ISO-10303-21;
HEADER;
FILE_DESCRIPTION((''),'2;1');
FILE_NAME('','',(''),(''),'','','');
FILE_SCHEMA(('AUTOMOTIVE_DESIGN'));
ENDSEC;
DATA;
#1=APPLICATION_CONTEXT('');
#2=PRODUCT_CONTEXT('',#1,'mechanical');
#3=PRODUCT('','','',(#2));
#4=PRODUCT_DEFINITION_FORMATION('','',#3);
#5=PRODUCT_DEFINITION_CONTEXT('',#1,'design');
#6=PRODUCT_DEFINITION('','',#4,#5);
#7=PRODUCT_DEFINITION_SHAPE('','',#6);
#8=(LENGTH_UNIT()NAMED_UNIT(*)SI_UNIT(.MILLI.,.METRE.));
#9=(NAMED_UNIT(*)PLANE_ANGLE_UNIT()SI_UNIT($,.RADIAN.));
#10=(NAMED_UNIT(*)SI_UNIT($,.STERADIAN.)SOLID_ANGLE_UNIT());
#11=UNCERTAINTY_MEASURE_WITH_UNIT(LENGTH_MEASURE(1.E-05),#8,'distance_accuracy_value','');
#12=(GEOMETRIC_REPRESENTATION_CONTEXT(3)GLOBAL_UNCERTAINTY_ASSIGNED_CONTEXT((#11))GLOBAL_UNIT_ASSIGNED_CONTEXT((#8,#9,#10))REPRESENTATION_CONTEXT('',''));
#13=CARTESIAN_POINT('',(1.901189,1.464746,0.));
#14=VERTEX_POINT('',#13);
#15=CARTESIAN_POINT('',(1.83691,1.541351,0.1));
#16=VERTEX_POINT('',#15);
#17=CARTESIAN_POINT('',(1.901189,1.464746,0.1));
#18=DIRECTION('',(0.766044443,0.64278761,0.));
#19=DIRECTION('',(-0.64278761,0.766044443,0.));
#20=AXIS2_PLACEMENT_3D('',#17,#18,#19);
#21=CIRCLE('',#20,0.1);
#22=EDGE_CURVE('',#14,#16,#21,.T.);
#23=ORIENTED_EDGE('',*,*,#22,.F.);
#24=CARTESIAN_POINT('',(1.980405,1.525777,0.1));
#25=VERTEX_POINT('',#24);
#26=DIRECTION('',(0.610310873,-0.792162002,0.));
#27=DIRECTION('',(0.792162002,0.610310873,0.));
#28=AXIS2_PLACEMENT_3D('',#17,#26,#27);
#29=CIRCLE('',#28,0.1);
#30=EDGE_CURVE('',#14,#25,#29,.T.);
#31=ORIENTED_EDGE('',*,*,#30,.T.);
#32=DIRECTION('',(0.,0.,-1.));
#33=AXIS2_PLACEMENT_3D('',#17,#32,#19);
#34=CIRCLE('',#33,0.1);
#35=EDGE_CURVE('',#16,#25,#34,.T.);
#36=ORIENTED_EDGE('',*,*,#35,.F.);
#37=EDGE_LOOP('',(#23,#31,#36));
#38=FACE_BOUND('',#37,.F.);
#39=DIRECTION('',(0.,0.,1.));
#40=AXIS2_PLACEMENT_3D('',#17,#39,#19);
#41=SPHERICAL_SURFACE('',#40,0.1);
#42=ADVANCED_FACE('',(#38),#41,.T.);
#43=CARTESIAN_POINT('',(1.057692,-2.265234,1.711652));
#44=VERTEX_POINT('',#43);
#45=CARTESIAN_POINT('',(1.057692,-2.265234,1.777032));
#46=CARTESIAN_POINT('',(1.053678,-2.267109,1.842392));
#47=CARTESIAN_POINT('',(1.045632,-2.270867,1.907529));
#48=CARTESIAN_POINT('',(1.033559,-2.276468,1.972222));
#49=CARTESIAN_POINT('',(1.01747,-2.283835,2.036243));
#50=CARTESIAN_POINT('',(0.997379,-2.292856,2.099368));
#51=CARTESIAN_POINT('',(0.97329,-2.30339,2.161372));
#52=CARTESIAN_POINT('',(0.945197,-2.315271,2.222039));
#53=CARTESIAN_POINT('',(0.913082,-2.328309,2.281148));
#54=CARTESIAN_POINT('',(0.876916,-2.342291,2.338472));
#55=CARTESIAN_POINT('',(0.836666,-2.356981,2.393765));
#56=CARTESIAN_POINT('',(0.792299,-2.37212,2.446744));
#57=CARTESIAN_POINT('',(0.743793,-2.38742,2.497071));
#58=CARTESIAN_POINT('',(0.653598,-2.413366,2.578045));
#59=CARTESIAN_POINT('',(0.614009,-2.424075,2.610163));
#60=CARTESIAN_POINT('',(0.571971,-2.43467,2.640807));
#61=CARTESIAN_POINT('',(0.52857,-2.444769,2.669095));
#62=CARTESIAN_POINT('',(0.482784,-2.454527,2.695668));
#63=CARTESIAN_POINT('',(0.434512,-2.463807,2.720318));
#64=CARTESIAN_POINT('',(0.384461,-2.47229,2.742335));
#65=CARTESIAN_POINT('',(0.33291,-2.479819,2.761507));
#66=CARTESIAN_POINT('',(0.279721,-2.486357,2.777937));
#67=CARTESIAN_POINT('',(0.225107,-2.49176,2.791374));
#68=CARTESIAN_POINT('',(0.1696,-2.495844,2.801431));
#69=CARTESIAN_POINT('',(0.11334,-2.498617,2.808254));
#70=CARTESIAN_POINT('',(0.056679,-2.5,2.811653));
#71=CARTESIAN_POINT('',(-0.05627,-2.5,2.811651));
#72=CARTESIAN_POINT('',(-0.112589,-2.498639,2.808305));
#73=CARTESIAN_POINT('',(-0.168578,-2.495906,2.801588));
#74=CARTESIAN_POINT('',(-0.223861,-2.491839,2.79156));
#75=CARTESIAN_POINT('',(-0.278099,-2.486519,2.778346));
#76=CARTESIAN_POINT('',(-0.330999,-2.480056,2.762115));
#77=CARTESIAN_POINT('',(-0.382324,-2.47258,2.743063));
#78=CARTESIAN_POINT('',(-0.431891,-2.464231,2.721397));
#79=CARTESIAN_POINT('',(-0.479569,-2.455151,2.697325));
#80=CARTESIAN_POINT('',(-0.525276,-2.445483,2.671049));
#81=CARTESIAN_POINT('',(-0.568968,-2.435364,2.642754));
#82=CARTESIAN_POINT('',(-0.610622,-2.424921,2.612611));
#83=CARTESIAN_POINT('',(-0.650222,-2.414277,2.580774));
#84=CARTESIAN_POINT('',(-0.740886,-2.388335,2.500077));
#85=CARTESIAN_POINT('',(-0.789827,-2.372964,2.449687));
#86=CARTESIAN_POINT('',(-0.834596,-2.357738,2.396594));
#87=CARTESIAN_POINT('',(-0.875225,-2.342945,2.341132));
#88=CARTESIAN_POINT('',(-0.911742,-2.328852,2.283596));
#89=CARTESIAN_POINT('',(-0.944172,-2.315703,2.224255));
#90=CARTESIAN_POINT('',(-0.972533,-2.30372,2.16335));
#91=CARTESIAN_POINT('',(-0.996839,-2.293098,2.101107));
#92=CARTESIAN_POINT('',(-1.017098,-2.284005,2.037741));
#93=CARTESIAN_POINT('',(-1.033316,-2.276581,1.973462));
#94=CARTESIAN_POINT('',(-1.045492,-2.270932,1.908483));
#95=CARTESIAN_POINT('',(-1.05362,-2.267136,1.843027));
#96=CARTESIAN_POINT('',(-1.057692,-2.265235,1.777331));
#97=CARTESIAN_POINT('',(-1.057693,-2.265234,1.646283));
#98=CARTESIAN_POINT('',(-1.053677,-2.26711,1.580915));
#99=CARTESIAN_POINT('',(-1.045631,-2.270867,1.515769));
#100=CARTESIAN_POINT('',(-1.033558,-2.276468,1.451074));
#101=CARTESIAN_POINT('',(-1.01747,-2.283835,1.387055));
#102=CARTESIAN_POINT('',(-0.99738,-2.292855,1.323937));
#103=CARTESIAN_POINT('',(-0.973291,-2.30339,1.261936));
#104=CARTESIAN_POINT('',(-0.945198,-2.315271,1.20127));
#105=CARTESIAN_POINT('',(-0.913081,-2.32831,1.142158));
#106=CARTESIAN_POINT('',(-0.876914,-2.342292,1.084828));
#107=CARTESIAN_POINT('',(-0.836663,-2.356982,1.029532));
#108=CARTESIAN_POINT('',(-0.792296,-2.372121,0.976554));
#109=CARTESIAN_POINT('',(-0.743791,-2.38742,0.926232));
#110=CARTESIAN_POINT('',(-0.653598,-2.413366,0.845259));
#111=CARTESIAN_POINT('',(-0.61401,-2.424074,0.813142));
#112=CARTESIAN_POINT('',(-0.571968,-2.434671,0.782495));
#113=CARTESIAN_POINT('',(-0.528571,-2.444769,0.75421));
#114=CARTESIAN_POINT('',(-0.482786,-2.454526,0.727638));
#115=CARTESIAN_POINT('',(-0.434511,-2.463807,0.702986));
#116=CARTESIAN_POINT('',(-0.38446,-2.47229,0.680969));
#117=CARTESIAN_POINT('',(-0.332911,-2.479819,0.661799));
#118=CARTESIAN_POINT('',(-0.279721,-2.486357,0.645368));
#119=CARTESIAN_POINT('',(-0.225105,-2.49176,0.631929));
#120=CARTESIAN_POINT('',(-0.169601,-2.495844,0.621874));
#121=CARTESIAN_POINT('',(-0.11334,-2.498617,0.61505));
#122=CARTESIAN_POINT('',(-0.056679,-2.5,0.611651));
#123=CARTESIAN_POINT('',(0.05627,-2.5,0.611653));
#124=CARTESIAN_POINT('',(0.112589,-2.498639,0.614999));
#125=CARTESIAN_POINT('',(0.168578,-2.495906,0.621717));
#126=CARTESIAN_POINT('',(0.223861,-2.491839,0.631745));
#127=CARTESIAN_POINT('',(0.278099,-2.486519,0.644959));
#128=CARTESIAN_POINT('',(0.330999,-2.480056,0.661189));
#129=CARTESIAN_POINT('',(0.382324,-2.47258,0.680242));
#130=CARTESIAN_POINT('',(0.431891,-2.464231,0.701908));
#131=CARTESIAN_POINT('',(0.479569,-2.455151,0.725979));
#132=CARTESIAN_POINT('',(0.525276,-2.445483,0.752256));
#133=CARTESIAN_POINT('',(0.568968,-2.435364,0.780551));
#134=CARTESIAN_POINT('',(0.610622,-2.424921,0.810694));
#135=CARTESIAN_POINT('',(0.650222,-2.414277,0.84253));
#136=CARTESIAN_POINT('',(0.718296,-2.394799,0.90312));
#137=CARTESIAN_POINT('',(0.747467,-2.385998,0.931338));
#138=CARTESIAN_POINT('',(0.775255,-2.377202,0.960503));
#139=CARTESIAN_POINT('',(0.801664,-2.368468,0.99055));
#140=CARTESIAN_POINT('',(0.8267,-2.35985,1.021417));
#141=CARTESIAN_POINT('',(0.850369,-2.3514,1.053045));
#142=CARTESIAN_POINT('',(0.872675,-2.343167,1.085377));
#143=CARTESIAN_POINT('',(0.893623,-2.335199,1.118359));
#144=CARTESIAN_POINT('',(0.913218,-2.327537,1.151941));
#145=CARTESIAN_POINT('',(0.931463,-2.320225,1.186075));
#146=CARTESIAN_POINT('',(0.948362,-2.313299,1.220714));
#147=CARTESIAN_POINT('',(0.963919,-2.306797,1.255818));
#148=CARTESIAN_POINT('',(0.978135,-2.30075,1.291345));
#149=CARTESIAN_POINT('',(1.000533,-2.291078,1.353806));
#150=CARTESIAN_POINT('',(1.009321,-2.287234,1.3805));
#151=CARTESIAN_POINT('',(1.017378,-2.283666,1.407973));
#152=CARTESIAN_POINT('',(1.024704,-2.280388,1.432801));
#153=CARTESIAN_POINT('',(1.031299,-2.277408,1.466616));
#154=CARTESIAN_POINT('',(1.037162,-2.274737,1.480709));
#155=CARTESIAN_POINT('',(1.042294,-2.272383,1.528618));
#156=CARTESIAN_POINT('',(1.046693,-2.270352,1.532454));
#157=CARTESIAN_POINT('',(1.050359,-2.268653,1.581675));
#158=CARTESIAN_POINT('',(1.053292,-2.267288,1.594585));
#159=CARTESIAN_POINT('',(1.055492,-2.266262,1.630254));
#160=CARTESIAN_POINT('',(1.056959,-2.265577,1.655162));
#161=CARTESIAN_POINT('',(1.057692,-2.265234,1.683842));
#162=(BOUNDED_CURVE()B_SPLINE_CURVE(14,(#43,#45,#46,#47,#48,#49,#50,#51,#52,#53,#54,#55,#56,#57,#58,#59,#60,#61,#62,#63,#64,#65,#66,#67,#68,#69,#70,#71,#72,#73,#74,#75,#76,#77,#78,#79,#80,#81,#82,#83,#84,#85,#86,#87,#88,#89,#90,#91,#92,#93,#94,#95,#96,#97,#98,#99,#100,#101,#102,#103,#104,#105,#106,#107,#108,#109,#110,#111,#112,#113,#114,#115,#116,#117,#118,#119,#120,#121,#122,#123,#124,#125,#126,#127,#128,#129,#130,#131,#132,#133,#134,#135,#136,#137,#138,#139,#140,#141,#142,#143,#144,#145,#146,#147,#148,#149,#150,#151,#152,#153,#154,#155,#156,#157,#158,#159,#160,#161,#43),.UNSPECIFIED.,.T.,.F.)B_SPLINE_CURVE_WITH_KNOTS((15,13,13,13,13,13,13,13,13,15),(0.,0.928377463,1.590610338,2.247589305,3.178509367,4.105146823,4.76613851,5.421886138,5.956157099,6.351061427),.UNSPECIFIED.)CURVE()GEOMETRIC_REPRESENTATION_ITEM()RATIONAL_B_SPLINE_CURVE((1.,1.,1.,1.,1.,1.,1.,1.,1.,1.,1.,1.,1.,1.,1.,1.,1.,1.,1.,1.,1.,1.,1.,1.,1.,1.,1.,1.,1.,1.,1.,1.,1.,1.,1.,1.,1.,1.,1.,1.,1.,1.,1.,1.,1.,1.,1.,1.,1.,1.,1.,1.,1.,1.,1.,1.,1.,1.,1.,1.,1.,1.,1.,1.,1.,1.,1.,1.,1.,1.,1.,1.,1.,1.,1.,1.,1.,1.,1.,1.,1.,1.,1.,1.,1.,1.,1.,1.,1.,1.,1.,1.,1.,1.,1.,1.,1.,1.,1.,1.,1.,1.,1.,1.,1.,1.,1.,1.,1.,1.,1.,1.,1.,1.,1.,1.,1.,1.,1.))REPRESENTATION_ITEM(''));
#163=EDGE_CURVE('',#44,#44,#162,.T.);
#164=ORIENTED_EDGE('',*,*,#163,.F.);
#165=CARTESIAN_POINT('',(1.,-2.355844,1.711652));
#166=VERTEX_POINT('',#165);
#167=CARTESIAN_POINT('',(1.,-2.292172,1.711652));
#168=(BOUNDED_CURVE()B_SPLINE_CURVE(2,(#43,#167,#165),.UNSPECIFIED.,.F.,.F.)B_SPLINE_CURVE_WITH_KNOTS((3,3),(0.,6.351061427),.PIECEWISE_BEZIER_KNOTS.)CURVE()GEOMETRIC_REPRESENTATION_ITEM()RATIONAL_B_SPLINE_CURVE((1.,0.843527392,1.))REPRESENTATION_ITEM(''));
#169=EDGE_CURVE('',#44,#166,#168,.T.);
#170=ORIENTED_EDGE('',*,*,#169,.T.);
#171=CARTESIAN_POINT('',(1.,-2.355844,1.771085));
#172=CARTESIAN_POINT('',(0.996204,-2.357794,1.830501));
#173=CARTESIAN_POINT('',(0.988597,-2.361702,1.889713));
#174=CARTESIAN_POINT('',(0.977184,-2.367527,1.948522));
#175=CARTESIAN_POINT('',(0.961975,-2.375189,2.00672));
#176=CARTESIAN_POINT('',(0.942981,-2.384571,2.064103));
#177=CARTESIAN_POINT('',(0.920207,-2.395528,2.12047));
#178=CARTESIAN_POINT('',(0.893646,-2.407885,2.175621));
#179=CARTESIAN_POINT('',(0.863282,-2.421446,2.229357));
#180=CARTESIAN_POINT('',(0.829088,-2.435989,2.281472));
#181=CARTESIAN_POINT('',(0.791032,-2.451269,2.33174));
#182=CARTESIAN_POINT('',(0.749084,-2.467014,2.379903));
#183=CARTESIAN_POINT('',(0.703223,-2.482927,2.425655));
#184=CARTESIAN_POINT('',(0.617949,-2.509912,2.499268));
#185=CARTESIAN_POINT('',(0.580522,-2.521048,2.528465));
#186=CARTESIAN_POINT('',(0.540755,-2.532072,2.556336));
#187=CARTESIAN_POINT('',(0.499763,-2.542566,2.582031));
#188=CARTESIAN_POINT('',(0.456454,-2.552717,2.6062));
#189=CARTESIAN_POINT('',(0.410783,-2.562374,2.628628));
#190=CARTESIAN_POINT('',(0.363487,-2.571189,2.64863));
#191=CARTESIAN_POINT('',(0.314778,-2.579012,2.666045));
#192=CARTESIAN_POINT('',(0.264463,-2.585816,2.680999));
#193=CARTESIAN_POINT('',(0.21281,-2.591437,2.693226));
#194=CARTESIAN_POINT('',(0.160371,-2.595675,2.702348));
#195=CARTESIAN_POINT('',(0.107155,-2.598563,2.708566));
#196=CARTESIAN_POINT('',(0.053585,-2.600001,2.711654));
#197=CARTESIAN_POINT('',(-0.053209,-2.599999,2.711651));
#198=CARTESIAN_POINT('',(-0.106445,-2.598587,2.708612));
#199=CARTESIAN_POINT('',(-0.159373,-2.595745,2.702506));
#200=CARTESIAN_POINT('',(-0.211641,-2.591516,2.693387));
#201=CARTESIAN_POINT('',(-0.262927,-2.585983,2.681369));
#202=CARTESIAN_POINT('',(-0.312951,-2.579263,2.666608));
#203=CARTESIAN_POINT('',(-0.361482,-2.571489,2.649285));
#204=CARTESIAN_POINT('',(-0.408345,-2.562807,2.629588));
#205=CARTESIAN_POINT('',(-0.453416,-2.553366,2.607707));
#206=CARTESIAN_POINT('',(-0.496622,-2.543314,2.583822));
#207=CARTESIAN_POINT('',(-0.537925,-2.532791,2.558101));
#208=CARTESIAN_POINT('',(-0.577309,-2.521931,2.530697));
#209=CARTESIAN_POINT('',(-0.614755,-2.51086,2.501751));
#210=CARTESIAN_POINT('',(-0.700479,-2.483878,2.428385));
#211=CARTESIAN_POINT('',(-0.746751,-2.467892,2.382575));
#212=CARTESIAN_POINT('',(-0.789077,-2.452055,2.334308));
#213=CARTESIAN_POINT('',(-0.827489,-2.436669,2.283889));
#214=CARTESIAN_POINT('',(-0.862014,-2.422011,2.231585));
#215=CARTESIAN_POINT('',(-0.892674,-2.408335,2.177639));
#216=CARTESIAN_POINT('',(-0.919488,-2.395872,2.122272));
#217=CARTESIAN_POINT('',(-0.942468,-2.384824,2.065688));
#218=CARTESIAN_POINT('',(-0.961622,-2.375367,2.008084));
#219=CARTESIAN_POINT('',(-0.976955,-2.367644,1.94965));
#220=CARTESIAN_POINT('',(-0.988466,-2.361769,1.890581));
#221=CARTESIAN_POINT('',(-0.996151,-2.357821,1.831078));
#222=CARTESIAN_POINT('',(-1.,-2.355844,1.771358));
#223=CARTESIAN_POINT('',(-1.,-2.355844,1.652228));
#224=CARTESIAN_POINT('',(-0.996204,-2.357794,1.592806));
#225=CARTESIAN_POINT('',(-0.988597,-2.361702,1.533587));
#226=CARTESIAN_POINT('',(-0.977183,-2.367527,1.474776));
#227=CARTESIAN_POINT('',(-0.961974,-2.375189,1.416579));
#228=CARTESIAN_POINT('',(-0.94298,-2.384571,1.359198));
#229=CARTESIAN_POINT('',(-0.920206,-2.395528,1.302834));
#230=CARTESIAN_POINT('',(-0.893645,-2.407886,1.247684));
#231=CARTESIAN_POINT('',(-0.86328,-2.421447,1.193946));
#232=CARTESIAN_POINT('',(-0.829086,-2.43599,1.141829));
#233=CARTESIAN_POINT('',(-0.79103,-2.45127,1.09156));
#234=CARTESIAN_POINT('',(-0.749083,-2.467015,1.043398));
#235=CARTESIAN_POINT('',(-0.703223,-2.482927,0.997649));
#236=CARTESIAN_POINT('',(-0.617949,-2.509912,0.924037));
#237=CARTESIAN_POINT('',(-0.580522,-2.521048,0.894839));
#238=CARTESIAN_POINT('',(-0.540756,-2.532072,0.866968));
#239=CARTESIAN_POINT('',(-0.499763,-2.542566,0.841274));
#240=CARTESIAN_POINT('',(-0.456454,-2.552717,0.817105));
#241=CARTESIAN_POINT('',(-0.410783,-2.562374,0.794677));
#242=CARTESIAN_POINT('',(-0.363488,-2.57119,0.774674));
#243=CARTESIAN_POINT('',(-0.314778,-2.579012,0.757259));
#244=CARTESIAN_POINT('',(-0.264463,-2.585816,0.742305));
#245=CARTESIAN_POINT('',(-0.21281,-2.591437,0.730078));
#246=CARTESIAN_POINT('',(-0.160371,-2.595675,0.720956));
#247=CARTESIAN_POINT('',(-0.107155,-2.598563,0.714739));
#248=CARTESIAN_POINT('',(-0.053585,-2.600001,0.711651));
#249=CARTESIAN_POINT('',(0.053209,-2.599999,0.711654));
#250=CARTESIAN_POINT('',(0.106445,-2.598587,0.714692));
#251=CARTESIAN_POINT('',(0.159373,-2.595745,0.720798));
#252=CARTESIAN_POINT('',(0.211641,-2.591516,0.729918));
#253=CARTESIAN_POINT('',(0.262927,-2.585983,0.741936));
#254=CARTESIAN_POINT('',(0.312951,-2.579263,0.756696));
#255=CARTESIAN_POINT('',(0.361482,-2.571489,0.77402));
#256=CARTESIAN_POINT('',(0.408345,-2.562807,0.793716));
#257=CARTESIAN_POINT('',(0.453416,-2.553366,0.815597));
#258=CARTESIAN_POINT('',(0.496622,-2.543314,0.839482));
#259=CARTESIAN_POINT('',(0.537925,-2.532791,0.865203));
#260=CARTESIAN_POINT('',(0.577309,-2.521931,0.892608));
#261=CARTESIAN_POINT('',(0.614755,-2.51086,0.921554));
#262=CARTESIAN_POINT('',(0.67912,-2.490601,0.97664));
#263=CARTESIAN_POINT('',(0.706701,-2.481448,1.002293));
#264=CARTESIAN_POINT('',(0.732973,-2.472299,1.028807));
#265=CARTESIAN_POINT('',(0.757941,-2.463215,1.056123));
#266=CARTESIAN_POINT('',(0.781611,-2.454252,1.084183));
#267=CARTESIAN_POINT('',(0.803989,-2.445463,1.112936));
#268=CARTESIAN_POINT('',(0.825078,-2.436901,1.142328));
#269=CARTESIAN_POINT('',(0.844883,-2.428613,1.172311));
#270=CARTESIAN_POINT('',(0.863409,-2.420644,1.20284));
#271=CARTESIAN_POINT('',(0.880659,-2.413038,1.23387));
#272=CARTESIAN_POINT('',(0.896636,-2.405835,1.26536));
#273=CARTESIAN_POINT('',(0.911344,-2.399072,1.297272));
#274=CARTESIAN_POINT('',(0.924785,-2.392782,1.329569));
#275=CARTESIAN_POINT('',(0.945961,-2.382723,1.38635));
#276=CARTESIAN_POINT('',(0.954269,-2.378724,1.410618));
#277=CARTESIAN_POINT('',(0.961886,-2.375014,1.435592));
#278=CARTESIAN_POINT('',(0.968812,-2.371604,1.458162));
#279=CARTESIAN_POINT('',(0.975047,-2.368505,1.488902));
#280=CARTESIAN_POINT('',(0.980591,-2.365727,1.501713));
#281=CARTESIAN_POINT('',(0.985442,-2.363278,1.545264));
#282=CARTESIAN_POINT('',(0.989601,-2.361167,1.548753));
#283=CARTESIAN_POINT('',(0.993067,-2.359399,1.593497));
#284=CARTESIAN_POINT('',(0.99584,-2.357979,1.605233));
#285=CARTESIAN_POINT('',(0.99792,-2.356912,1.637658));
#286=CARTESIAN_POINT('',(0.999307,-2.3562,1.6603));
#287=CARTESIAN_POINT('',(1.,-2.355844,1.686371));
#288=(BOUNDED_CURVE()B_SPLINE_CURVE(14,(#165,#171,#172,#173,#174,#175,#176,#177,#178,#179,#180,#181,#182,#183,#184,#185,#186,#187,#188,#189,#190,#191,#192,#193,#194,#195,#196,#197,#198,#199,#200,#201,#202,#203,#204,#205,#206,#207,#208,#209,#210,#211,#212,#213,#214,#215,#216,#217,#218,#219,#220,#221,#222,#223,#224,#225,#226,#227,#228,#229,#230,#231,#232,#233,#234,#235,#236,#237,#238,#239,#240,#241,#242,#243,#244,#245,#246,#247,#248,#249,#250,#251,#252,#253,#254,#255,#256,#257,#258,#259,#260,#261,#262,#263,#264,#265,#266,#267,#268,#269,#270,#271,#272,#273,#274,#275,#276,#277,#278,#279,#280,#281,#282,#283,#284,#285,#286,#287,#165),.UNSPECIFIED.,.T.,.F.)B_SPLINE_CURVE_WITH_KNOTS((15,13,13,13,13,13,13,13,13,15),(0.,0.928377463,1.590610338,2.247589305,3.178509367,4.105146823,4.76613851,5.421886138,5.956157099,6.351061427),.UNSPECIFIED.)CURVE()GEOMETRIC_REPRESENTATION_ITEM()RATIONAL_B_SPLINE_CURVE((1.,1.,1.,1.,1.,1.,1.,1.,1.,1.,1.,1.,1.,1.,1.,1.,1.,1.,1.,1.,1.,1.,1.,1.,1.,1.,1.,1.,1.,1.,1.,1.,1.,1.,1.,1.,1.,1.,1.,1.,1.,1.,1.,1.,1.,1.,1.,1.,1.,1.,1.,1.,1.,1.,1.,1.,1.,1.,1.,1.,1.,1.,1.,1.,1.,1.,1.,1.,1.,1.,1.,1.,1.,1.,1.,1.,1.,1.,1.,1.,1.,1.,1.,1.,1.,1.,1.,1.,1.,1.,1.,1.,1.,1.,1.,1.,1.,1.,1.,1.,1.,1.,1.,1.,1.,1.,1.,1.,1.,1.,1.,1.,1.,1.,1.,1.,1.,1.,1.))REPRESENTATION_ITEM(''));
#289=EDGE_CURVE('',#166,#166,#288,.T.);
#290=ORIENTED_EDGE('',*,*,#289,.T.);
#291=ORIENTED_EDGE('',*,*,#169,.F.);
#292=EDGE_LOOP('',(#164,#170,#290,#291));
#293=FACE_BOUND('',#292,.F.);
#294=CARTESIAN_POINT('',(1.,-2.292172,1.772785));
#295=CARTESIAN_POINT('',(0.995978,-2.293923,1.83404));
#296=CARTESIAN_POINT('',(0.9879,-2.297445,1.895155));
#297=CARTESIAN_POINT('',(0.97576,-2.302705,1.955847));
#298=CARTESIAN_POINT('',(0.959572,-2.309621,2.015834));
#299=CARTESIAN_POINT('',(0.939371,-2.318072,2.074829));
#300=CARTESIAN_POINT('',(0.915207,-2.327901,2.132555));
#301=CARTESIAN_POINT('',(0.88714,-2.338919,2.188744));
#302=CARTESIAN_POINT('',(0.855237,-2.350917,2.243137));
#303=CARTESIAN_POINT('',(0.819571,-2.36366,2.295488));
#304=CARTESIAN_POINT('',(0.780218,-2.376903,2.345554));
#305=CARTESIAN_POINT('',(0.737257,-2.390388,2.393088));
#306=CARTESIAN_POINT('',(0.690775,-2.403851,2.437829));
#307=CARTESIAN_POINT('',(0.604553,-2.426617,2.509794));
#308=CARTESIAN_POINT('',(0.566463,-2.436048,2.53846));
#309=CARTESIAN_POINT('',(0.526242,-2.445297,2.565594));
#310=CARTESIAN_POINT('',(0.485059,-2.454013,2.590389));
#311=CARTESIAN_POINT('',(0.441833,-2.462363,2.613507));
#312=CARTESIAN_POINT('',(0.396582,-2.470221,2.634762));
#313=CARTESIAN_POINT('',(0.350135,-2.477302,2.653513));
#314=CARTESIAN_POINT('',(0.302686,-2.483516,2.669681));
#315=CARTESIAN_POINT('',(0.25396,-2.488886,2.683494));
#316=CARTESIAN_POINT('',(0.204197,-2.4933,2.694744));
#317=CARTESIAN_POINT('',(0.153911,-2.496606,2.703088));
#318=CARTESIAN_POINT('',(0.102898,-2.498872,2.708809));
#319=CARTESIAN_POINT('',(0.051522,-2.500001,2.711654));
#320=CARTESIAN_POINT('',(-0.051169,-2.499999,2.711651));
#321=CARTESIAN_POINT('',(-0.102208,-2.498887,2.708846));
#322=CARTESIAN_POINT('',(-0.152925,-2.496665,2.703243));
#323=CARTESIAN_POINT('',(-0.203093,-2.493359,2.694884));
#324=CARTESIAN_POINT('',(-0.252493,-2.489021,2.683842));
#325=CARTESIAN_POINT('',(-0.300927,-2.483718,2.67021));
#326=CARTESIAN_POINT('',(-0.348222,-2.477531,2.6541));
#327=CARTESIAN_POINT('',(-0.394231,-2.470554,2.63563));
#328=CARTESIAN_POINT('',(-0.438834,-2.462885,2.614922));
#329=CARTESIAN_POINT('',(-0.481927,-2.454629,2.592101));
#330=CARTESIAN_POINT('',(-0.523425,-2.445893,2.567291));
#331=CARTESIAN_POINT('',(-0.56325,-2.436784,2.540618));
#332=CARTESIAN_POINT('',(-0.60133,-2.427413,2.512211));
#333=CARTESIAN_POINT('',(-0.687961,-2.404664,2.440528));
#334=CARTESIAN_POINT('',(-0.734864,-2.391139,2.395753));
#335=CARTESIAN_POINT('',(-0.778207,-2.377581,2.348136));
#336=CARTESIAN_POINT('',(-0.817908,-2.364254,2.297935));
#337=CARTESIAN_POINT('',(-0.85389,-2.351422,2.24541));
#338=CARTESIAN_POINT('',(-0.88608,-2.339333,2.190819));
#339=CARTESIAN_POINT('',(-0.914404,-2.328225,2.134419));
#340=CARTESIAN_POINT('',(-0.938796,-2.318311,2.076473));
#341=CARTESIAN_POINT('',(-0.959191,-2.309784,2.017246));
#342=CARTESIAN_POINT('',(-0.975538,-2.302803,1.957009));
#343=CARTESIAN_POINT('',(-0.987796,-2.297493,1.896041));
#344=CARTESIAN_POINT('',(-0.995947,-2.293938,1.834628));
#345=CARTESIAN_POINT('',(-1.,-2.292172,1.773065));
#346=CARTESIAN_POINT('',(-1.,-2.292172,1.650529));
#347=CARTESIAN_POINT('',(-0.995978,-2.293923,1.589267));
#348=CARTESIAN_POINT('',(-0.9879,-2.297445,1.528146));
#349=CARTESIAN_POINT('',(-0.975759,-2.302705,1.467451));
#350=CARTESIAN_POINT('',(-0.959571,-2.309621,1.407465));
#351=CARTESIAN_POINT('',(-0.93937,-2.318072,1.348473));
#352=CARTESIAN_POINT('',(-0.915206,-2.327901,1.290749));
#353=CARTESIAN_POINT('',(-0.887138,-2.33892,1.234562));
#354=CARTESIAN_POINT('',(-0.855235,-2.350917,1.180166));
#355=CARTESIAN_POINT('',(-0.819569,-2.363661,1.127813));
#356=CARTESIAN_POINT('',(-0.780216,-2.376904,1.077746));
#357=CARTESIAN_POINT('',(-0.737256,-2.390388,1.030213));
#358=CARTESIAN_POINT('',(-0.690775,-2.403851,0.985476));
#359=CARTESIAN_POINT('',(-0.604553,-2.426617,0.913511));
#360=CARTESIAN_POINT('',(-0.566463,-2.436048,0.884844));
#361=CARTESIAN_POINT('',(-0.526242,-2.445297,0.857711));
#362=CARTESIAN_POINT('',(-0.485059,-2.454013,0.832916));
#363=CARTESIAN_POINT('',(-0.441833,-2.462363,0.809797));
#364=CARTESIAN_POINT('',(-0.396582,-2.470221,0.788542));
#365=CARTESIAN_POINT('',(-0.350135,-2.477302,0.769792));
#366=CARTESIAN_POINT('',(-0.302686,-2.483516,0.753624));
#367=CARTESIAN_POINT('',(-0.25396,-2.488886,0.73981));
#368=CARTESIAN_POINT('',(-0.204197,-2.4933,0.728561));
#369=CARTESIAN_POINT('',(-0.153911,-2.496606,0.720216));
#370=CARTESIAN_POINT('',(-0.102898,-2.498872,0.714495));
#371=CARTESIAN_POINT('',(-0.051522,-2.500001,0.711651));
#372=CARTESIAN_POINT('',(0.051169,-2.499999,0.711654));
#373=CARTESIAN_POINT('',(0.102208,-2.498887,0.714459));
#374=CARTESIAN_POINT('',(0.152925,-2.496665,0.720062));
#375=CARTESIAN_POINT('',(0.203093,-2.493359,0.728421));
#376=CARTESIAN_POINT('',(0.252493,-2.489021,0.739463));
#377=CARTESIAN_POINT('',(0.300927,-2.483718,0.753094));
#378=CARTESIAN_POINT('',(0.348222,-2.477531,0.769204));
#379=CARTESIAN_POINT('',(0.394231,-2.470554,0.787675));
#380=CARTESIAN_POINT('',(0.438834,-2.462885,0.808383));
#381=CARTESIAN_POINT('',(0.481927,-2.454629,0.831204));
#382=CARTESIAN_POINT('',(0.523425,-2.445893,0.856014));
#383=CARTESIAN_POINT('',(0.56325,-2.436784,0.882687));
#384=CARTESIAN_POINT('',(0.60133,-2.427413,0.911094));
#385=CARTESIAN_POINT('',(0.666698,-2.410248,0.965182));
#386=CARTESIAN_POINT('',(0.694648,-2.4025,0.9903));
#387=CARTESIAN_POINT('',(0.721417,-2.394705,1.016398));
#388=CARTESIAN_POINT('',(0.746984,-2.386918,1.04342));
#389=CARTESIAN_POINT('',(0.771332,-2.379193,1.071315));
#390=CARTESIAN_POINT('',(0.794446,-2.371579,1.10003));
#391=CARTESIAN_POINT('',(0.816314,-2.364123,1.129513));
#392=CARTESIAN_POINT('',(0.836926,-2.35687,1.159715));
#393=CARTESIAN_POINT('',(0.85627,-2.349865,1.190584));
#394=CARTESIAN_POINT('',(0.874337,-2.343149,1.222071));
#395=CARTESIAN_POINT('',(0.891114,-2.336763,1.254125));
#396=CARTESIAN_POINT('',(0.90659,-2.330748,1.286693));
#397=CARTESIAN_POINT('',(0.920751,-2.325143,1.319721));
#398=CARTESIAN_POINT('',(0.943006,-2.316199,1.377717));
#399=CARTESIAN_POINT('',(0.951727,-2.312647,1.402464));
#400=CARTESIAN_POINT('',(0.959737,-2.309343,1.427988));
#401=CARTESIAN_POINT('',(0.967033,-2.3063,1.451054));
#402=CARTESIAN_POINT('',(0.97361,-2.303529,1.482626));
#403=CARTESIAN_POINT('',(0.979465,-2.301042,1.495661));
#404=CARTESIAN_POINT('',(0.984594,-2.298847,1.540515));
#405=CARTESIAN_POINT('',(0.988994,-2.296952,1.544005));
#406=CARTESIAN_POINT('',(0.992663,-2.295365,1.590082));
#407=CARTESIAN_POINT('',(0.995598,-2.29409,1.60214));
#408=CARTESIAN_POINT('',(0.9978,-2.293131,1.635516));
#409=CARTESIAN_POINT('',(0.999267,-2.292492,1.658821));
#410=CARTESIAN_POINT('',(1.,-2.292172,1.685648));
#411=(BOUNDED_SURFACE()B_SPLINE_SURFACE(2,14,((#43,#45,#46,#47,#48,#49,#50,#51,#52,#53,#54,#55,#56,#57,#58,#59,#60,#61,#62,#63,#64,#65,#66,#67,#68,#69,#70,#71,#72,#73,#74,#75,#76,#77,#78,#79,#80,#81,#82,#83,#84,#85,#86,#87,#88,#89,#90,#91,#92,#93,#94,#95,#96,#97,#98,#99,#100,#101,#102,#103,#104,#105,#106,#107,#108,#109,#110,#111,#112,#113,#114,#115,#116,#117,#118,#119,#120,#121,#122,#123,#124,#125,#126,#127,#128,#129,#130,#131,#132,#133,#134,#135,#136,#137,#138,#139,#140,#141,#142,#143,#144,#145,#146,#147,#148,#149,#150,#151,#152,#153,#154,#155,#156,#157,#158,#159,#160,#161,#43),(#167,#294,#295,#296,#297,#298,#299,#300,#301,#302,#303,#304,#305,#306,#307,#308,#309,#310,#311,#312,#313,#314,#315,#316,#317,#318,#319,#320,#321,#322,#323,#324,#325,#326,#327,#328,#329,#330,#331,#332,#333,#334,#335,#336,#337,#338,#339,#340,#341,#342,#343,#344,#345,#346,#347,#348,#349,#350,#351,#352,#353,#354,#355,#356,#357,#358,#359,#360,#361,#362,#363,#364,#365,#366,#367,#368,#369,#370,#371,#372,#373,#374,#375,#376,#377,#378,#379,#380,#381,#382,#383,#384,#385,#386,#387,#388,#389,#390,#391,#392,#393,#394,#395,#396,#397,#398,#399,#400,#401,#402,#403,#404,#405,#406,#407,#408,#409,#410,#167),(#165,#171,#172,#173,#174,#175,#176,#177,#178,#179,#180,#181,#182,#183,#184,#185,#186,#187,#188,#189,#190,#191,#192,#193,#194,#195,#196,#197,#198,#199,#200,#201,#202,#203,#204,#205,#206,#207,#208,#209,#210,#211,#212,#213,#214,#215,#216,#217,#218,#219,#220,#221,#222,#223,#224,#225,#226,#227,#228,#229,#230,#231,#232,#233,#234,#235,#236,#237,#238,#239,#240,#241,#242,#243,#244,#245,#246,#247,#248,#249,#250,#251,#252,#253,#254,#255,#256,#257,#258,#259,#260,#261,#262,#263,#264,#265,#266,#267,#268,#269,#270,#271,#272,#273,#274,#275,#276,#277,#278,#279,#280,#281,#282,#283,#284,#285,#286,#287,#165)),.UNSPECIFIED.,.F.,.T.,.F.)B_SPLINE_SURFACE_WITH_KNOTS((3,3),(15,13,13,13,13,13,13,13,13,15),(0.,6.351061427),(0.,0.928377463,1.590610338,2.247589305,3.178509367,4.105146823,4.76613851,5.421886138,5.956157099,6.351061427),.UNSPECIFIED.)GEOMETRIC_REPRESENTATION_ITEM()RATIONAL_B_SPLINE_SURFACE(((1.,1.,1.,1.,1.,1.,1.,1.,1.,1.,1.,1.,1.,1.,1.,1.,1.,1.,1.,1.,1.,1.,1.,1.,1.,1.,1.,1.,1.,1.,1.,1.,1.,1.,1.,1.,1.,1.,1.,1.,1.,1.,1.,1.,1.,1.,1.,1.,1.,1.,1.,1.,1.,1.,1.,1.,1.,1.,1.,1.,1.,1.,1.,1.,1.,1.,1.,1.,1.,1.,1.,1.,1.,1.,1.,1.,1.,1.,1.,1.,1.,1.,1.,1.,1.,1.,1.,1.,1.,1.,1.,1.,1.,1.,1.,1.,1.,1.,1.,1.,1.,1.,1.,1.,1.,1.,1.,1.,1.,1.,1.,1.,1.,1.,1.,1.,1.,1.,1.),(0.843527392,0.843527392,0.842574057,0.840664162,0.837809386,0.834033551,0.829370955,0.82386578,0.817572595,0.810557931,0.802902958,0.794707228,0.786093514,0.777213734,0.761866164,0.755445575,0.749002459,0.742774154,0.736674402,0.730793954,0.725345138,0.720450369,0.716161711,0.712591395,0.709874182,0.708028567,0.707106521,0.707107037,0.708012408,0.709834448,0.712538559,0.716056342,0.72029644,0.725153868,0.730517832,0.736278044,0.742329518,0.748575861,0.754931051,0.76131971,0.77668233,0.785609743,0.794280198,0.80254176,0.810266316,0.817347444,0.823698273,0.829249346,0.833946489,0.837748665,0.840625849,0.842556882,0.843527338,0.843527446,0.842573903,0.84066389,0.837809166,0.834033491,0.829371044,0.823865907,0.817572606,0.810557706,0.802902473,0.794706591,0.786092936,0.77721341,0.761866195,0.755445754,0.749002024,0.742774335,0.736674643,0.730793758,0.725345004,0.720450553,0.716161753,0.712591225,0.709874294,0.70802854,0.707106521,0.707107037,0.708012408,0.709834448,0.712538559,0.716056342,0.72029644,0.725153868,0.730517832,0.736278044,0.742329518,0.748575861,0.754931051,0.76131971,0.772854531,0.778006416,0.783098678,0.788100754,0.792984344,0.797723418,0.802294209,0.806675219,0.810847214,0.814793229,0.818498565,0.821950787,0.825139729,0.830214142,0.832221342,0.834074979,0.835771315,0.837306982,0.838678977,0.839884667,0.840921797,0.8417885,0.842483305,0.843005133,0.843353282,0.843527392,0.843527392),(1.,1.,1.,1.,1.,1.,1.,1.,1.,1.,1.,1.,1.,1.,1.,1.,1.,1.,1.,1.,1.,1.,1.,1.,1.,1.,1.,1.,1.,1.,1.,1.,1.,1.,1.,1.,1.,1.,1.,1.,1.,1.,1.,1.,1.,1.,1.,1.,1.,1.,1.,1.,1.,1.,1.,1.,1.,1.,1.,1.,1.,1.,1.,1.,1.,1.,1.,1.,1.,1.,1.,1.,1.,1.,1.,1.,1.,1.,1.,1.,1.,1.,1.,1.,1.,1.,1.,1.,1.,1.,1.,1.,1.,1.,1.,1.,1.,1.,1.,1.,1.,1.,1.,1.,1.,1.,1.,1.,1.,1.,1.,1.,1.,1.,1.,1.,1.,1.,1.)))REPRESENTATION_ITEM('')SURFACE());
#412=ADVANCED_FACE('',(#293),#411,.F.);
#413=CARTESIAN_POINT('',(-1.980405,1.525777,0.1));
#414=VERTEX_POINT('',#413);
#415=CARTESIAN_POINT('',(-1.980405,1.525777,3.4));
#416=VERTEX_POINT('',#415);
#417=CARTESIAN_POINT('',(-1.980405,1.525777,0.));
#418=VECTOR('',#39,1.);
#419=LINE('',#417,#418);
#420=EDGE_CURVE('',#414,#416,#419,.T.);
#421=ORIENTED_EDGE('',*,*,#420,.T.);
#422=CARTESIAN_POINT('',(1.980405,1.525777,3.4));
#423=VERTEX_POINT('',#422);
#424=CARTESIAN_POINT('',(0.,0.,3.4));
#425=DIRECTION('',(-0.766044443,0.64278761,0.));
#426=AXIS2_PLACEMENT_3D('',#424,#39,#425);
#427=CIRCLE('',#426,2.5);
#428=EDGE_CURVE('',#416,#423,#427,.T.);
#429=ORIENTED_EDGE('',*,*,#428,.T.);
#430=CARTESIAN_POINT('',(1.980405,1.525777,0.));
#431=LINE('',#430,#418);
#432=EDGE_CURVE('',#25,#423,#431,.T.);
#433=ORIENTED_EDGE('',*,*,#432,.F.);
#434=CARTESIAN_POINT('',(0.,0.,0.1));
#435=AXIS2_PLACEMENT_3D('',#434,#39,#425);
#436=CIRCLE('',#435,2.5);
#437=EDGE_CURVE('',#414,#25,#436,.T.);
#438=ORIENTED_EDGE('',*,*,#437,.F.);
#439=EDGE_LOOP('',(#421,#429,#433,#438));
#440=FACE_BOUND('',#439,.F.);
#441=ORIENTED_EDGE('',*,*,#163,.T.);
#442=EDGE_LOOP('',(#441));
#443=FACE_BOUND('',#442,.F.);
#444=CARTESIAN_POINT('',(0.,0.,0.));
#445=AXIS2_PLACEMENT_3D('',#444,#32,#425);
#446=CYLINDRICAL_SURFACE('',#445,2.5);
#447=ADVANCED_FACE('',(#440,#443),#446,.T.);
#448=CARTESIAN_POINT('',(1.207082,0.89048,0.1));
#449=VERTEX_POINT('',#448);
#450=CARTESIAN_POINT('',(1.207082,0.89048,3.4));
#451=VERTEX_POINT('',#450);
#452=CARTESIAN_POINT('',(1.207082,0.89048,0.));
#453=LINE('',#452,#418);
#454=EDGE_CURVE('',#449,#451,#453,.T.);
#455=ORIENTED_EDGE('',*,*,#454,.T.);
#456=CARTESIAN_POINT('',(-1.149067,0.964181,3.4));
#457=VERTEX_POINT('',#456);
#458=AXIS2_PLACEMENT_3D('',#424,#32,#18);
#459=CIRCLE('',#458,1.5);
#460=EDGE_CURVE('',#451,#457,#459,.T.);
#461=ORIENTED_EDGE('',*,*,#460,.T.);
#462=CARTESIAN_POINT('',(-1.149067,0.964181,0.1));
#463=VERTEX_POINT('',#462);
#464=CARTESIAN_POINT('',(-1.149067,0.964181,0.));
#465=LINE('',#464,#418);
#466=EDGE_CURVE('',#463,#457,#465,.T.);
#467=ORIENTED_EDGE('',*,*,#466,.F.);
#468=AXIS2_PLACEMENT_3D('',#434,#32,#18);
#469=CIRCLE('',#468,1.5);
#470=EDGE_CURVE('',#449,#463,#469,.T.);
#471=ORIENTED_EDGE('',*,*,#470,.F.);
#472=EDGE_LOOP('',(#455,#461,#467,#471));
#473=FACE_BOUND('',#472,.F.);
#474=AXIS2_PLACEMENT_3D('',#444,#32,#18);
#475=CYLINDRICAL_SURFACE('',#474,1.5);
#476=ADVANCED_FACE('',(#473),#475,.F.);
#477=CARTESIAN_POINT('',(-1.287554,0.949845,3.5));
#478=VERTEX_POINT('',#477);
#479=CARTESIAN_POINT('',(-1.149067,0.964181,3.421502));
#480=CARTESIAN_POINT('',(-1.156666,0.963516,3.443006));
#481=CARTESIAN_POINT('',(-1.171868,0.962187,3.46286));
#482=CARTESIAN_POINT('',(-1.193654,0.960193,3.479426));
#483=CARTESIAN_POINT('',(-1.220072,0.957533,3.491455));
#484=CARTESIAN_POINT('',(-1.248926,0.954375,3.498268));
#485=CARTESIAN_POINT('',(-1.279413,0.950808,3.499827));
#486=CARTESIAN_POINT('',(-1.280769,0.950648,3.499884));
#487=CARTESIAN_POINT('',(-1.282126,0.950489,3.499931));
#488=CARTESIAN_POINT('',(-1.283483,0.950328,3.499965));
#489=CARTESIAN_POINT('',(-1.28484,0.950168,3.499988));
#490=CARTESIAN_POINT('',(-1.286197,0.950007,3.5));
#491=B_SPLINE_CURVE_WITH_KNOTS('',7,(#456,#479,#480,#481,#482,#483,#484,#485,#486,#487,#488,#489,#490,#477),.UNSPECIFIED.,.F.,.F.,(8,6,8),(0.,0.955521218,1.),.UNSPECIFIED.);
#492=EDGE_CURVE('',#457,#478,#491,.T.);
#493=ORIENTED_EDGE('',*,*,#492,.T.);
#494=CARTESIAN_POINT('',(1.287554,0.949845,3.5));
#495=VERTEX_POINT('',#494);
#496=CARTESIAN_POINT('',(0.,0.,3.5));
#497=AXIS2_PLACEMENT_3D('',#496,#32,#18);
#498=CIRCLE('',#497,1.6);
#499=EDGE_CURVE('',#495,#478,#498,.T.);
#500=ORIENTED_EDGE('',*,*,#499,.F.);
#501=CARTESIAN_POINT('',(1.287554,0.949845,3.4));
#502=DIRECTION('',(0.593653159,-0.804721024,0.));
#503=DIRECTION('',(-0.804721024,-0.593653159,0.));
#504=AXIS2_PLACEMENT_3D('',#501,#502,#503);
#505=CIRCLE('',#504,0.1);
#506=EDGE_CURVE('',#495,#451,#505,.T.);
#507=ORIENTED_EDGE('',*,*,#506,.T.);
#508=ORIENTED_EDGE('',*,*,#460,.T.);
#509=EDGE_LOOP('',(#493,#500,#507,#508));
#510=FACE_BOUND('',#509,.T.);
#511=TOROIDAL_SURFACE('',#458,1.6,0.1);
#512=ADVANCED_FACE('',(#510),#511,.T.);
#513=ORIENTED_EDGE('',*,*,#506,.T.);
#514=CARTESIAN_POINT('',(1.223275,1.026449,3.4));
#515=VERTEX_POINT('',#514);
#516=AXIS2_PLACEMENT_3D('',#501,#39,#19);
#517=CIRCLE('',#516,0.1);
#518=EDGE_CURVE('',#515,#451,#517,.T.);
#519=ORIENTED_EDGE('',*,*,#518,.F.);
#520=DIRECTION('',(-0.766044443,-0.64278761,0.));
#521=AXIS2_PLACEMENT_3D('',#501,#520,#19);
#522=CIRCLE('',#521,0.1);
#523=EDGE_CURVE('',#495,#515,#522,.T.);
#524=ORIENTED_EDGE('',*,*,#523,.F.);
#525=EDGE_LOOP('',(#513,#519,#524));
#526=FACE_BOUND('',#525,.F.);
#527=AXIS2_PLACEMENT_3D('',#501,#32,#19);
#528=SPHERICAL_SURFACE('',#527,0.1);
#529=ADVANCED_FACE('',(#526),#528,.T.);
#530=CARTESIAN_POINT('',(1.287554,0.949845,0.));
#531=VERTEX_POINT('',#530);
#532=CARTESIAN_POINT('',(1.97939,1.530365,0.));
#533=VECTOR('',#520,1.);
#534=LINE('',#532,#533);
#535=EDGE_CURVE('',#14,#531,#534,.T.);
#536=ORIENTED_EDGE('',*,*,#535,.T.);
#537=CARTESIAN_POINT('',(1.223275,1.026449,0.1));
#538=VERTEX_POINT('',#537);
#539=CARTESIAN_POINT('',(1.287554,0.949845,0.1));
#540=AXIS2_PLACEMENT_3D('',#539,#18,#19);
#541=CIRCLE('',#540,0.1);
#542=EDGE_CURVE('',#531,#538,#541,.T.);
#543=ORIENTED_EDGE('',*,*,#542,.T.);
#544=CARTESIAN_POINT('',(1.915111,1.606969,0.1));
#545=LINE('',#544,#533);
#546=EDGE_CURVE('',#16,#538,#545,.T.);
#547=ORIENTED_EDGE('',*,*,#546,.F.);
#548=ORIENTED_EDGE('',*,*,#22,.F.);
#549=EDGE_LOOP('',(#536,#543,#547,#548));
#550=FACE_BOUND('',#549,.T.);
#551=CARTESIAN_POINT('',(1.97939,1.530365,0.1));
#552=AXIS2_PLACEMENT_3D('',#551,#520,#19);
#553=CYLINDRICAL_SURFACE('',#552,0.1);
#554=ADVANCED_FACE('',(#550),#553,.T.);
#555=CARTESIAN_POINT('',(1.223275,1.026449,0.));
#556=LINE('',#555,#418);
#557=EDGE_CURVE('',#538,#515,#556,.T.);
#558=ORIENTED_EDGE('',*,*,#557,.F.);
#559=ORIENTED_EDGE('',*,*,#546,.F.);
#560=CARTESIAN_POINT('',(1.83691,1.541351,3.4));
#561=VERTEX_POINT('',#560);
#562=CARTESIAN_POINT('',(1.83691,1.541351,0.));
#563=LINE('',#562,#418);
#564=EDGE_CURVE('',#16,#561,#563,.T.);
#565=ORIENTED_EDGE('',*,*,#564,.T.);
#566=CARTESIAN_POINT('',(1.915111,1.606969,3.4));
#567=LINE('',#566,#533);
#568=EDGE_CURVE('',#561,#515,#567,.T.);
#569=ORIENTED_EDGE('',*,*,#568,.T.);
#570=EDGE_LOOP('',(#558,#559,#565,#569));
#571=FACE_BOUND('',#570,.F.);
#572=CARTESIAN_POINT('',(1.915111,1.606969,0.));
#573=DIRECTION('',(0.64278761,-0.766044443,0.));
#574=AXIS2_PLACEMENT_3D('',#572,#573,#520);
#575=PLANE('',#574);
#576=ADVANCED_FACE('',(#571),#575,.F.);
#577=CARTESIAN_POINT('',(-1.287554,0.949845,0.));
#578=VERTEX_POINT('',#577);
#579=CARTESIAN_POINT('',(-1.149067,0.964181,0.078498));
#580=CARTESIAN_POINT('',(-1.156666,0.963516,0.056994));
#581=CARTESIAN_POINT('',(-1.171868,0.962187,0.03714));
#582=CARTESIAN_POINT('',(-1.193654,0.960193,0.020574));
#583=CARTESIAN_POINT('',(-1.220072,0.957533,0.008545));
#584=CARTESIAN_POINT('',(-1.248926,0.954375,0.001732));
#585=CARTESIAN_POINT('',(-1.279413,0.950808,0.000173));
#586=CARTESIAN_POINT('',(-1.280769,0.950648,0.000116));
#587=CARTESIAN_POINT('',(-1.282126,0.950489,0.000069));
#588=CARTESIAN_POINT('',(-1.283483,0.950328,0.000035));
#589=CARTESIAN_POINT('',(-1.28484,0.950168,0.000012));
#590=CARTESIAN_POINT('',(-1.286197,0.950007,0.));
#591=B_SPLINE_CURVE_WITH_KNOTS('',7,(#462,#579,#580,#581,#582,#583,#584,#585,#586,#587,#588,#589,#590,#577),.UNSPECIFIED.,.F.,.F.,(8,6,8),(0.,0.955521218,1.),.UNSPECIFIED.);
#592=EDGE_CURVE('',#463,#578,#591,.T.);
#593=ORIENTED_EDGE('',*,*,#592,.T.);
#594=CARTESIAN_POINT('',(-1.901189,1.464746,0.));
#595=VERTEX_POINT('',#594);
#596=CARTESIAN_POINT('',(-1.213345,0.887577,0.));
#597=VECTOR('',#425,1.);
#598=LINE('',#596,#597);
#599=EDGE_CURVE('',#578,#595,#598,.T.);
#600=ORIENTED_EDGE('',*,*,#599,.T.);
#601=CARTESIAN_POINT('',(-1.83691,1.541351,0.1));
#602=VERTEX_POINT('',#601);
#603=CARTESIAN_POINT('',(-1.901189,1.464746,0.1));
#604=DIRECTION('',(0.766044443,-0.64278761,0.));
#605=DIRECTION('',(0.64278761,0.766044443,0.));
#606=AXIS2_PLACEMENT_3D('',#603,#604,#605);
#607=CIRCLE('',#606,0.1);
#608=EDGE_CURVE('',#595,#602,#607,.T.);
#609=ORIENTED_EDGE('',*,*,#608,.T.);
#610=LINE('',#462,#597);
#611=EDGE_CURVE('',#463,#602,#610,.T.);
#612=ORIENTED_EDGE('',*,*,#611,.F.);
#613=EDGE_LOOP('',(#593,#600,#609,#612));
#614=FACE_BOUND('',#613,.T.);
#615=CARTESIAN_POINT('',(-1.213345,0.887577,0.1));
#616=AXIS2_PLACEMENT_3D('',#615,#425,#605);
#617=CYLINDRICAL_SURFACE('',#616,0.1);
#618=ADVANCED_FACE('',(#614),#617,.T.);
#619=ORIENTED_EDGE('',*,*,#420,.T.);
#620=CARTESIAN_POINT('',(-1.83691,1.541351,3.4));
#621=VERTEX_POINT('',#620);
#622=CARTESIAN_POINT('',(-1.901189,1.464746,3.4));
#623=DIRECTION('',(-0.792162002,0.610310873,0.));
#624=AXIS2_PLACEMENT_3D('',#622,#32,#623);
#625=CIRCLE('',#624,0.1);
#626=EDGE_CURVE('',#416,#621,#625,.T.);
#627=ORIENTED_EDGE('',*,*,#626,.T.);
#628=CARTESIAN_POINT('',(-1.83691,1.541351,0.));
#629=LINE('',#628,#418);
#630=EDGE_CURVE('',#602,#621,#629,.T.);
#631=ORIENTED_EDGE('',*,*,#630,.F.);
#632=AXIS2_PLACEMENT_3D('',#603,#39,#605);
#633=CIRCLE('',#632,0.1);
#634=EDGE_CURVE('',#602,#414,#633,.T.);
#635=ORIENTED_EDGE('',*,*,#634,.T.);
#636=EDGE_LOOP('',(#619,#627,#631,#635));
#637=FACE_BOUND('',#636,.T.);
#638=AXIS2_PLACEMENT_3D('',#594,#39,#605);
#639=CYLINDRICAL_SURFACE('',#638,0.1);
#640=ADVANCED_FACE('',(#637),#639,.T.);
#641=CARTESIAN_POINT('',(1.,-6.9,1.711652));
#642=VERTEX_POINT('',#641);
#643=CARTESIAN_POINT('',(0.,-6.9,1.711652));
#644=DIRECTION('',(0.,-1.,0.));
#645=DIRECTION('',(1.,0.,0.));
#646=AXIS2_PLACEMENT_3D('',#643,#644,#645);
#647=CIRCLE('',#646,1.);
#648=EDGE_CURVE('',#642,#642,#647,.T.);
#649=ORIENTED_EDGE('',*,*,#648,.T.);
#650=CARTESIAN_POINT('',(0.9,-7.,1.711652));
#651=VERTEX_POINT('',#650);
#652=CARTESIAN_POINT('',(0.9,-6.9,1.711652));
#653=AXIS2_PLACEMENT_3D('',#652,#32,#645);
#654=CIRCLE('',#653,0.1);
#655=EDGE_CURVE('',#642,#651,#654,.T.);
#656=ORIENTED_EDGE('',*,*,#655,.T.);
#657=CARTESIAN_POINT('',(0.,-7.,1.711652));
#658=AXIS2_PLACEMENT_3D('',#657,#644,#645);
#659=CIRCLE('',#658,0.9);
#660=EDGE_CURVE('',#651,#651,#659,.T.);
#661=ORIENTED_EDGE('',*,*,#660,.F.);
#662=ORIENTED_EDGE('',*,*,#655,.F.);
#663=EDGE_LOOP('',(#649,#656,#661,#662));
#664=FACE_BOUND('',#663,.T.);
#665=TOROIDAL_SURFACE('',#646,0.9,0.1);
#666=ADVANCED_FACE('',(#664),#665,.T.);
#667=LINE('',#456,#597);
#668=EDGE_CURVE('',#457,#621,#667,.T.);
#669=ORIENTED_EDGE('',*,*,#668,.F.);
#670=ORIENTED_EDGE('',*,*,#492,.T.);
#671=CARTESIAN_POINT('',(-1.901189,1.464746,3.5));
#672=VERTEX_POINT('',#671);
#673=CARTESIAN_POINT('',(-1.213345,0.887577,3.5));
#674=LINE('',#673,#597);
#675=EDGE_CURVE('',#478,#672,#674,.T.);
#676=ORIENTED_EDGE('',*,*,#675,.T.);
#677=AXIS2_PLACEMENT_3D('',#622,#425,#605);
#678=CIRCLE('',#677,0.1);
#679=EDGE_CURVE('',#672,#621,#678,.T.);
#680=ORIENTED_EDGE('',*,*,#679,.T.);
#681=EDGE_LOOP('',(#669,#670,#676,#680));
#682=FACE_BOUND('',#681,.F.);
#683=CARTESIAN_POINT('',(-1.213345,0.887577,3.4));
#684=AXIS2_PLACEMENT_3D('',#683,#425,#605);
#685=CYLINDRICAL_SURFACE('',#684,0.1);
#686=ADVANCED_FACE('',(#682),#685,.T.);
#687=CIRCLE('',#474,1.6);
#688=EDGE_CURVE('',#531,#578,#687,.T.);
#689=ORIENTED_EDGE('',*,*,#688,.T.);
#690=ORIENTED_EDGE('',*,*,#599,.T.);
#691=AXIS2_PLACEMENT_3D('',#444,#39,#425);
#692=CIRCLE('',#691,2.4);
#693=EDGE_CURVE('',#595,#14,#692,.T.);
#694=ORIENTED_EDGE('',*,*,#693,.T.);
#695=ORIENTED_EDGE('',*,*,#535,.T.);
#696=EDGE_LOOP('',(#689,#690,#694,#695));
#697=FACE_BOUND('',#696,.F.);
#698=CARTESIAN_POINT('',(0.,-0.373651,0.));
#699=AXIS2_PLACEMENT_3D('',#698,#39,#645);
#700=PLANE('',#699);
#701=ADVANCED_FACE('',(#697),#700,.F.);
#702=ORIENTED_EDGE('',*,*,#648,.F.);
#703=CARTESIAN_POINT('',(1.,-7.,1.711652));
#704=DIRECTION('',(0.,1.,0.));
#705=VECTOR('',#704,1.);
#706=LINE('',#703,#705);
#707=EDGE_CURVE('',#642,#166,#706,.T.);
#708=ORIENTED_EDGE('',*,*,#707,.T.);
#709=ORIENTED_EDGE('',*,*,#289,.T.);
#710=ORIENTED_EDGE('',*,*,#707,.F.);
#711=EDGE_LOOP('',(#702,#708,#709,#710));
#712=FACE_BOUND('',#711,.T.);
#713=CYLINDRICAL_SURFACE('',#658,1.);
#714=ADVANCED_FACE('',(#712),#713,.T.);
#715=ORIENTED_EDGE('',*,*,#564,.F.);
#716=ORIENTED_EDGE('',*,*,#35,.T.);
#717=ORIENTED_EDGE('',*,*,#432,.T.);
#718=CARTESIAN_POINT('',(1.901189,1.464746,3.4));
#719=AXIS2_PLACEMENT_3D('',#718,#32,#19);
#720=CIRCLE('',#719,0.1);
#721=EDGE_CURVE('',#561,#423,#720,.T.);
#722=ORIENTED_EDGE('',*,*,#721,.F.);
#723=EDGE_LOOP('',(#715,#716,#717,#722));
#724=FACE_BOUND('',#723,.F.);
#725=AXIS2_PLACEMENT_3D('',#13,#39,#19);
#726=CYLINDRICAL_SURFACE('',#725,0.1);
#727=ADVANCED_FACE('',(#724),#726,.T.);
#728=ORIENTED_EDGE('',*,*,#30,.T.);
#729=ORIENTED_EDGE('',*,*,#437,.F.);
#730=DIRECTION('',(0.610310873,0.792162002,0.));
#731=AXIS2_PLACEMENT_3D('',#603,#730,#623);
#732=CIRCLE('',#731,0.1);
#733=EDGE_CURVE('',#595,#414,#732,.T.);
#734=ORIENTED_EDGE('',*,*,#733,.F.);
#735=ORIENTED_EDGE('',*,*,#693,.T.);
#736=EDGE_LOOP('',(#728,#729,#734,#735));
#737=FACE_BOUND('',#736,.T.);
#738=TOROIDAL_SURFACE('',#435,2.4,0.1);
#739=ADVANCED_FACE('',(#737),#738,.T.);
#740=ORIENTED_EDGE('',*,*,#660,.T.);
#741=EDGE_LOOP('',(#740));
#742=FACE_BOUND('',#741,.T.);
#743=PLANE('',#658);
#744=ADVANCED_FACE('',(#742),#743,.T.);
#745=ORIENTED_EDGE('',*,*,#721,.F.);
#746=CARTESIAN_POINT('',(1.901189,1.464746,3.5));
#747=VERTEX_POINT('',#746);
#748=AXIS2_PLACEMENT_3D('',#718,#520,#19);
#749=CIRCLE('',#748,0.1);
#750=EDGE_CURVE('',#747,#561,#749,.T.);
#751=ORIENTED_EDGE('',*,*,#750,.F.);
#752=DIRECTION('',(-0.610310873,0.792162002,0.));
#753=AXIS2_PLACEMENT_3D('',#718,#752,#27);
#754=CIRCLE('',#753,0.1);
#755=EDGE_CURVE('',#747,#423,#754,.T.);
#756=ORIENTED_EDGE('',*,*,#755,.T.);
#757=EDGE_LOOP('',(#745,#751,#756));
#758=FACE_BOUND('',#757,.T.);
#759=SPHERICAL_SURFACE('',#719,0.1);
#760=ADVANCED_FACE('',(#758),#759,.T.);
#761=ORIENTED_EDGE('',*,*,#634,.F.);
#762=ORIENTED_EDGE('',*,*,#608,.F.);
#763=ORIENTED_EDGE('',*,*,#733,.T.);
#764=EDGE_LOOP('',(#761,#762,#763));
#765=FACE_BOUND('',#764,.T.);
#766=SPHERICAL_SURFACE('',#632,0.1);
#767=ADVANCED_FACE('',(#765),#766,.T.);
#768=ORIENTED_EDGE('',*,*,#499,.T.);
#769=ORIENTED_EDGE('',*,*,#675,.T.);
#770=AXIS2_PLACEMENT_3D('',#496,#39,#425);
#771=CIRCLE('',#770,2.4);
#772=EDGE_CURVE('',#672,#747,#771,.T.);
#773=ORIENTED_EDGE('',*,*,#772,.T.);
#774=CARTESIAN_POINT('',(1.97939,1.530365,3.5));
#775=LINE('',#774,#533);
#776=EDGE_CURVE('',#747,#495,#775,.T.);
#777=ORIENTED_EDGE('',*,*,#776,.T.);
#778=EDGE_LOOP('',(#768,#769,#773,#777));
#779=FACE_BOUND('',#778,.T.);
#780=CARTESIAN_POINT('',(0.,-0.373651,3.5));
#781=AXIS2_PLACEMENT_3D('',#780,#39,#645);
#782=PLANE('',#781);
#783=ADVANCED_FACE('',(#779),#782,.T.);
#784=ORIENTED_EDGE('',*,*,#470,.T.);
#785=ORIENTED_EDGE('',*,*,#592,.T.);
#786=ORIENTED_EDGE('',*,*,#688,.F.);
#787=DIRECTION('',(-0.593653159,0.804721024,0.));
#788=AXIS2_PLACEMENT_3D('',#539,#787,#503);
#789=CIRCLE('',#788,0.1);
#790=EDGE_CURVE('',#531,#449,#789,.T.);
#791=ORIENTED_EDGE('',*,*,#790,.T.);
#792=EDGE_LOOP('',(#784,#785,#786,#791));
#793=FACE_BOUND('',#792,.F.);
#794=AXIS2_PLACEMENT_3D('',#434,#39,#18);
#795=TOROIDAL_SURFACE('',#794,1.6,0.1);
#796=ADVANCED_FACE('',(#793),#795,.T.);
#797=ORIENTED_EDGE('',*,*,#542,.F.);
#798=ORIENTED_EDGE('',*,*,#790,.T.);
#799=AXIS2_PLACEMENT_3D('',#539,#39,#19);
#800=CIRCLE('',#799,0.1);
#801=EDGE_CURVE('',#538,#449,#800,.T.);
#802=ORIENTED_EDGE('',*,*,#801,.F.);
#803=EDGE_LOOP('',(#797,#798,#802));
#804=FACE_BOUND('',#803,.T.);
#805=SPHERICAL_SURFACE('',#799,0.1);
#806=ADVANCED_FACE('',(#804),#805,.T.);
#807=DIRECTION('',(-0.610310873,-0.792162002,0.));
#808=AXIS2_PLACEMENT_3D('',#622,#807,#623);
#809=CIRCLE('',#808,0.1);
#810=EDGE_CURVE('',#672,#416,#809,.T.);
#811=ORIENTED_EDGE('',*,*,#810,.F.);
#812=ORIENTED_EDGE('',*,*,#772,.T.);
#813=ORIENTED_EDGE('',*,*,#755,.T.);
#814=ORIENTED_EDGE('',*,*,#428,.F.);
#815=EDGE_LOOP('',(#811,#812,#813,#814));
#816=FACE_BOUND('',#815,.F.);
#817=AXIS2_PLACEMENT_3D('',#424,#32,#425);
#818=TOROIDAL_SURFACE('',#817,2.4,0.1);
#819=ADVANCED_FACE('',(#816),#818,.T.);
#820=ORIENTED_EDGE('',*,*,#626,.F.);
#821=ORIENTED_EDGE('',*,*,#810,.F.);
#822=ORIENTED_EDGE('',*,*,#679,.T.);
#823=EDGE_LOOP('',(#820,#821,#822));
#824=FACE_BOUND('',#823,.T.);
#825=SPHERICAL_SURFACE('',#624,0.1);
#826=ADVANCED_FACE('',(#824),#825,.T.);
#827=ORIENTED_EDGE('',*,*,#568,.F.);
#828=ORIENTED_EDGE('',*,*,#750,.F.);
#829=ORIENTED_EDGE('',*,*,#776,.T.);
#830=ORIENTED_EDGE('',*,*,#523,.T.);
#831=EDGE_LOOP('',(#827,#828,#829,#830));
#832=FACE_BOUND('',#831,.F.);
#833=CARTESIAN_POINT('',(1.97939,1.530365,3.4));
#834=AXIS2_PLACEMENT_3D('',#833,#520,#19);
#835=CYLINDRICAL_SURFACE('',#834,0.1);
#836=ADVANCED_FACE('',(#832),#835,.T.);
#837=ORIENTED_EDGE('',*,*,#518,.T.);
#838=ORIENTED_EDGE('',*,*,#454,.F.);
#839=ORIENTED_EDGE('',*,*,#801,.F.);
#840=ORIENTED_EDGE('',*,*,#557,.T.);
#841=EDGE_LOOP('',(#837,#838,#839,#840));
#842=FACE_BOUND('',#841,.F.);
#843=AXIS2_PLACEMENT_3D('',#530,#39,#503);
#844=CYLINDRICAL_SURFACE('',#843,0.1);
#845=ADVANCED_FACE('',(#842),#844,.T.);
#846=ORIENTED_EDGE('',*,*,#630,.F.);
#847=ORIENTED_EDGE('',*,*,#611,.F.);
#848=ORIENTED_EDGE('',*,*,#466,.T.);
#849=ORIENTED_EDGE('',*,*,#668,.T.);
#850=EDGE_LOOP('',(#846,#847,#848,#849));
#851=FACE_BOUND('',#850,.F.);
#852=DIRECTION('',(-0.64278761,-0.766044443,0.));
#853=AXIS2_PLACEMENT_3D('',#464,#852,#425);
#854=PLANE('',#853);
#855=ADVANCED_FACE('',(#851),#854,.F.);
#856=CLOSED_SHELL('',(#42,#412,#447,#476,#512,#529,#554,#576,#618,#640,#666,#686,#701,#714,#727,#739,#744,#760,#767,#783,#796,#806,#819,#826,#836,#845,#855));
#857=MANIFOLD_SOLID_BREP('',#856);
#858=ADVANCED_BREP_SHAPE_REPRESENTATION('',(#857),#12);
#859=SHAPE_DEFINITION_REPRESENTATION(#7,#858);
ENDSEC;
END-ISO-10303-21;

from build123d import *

# Parameters (mm, degrees)
F1_DEPTH = 3.5
F3_R     = 1
F5_R     = 0.1


with BuildPart() as f1:
    # F0 (on Top) → F1 (new body)
    with BuildSketch(Plane.XY):
        with BuildLine():
            ThreePointArc((1.1490666647, 0.9641814145), (0, -1.5), (-1.1490666647, 0.9641814145))
            Line((-1.1490666647, 0.9641814145), (-1.9151111078, 1.6069690242))
            ThreePointArc((-1.9151111078, 1.6069690242), (0, -2.5), (1.9151111078, 1.6069690242))
            Line((1.9151111078, 1.6069690242), (1.1490666647, 0.9641814145))
        make_face()
    extrude(amount=F1_DEPTH)

    # F3 (on offset) → F4 (join, up to the next surface of F1)
    with BuildSketch(Plane.XZ.offset(7)):
        with Locations((0, 1.7116522619)):
            Circle(F3_R)
    extrude(until=Until.NEXT, dir=(0, 1, 0))

    # F5
    f5_edges = [f1.edges().sort_by_distance(p)[0] for p in [
        (-1, -7, 1.711652),
        (1, -4.645644, 1.711652),
        (-1, -2.291288, 1.711652),
        (1.915111, 1.606969, 1.75),
        (1.149067, 0.964181, 1.75),
        (1.532089, 1.285575, 0),
        (1.532089, 1.285575, 3.5),
        (0, -1.5, 0),
        (-1.532089, 1.285575, 0),
        (0, -2.5, 0),
        (-1.915111, 1.606969, 1.75),
        (0, -2.5, 3.5),
        (0, -1.5, 3.5),
        (-1.532089, 1.285575, 3.5),
    ]]
    fillet(f5_edges, radius=F5_R)


solid = f1.part
